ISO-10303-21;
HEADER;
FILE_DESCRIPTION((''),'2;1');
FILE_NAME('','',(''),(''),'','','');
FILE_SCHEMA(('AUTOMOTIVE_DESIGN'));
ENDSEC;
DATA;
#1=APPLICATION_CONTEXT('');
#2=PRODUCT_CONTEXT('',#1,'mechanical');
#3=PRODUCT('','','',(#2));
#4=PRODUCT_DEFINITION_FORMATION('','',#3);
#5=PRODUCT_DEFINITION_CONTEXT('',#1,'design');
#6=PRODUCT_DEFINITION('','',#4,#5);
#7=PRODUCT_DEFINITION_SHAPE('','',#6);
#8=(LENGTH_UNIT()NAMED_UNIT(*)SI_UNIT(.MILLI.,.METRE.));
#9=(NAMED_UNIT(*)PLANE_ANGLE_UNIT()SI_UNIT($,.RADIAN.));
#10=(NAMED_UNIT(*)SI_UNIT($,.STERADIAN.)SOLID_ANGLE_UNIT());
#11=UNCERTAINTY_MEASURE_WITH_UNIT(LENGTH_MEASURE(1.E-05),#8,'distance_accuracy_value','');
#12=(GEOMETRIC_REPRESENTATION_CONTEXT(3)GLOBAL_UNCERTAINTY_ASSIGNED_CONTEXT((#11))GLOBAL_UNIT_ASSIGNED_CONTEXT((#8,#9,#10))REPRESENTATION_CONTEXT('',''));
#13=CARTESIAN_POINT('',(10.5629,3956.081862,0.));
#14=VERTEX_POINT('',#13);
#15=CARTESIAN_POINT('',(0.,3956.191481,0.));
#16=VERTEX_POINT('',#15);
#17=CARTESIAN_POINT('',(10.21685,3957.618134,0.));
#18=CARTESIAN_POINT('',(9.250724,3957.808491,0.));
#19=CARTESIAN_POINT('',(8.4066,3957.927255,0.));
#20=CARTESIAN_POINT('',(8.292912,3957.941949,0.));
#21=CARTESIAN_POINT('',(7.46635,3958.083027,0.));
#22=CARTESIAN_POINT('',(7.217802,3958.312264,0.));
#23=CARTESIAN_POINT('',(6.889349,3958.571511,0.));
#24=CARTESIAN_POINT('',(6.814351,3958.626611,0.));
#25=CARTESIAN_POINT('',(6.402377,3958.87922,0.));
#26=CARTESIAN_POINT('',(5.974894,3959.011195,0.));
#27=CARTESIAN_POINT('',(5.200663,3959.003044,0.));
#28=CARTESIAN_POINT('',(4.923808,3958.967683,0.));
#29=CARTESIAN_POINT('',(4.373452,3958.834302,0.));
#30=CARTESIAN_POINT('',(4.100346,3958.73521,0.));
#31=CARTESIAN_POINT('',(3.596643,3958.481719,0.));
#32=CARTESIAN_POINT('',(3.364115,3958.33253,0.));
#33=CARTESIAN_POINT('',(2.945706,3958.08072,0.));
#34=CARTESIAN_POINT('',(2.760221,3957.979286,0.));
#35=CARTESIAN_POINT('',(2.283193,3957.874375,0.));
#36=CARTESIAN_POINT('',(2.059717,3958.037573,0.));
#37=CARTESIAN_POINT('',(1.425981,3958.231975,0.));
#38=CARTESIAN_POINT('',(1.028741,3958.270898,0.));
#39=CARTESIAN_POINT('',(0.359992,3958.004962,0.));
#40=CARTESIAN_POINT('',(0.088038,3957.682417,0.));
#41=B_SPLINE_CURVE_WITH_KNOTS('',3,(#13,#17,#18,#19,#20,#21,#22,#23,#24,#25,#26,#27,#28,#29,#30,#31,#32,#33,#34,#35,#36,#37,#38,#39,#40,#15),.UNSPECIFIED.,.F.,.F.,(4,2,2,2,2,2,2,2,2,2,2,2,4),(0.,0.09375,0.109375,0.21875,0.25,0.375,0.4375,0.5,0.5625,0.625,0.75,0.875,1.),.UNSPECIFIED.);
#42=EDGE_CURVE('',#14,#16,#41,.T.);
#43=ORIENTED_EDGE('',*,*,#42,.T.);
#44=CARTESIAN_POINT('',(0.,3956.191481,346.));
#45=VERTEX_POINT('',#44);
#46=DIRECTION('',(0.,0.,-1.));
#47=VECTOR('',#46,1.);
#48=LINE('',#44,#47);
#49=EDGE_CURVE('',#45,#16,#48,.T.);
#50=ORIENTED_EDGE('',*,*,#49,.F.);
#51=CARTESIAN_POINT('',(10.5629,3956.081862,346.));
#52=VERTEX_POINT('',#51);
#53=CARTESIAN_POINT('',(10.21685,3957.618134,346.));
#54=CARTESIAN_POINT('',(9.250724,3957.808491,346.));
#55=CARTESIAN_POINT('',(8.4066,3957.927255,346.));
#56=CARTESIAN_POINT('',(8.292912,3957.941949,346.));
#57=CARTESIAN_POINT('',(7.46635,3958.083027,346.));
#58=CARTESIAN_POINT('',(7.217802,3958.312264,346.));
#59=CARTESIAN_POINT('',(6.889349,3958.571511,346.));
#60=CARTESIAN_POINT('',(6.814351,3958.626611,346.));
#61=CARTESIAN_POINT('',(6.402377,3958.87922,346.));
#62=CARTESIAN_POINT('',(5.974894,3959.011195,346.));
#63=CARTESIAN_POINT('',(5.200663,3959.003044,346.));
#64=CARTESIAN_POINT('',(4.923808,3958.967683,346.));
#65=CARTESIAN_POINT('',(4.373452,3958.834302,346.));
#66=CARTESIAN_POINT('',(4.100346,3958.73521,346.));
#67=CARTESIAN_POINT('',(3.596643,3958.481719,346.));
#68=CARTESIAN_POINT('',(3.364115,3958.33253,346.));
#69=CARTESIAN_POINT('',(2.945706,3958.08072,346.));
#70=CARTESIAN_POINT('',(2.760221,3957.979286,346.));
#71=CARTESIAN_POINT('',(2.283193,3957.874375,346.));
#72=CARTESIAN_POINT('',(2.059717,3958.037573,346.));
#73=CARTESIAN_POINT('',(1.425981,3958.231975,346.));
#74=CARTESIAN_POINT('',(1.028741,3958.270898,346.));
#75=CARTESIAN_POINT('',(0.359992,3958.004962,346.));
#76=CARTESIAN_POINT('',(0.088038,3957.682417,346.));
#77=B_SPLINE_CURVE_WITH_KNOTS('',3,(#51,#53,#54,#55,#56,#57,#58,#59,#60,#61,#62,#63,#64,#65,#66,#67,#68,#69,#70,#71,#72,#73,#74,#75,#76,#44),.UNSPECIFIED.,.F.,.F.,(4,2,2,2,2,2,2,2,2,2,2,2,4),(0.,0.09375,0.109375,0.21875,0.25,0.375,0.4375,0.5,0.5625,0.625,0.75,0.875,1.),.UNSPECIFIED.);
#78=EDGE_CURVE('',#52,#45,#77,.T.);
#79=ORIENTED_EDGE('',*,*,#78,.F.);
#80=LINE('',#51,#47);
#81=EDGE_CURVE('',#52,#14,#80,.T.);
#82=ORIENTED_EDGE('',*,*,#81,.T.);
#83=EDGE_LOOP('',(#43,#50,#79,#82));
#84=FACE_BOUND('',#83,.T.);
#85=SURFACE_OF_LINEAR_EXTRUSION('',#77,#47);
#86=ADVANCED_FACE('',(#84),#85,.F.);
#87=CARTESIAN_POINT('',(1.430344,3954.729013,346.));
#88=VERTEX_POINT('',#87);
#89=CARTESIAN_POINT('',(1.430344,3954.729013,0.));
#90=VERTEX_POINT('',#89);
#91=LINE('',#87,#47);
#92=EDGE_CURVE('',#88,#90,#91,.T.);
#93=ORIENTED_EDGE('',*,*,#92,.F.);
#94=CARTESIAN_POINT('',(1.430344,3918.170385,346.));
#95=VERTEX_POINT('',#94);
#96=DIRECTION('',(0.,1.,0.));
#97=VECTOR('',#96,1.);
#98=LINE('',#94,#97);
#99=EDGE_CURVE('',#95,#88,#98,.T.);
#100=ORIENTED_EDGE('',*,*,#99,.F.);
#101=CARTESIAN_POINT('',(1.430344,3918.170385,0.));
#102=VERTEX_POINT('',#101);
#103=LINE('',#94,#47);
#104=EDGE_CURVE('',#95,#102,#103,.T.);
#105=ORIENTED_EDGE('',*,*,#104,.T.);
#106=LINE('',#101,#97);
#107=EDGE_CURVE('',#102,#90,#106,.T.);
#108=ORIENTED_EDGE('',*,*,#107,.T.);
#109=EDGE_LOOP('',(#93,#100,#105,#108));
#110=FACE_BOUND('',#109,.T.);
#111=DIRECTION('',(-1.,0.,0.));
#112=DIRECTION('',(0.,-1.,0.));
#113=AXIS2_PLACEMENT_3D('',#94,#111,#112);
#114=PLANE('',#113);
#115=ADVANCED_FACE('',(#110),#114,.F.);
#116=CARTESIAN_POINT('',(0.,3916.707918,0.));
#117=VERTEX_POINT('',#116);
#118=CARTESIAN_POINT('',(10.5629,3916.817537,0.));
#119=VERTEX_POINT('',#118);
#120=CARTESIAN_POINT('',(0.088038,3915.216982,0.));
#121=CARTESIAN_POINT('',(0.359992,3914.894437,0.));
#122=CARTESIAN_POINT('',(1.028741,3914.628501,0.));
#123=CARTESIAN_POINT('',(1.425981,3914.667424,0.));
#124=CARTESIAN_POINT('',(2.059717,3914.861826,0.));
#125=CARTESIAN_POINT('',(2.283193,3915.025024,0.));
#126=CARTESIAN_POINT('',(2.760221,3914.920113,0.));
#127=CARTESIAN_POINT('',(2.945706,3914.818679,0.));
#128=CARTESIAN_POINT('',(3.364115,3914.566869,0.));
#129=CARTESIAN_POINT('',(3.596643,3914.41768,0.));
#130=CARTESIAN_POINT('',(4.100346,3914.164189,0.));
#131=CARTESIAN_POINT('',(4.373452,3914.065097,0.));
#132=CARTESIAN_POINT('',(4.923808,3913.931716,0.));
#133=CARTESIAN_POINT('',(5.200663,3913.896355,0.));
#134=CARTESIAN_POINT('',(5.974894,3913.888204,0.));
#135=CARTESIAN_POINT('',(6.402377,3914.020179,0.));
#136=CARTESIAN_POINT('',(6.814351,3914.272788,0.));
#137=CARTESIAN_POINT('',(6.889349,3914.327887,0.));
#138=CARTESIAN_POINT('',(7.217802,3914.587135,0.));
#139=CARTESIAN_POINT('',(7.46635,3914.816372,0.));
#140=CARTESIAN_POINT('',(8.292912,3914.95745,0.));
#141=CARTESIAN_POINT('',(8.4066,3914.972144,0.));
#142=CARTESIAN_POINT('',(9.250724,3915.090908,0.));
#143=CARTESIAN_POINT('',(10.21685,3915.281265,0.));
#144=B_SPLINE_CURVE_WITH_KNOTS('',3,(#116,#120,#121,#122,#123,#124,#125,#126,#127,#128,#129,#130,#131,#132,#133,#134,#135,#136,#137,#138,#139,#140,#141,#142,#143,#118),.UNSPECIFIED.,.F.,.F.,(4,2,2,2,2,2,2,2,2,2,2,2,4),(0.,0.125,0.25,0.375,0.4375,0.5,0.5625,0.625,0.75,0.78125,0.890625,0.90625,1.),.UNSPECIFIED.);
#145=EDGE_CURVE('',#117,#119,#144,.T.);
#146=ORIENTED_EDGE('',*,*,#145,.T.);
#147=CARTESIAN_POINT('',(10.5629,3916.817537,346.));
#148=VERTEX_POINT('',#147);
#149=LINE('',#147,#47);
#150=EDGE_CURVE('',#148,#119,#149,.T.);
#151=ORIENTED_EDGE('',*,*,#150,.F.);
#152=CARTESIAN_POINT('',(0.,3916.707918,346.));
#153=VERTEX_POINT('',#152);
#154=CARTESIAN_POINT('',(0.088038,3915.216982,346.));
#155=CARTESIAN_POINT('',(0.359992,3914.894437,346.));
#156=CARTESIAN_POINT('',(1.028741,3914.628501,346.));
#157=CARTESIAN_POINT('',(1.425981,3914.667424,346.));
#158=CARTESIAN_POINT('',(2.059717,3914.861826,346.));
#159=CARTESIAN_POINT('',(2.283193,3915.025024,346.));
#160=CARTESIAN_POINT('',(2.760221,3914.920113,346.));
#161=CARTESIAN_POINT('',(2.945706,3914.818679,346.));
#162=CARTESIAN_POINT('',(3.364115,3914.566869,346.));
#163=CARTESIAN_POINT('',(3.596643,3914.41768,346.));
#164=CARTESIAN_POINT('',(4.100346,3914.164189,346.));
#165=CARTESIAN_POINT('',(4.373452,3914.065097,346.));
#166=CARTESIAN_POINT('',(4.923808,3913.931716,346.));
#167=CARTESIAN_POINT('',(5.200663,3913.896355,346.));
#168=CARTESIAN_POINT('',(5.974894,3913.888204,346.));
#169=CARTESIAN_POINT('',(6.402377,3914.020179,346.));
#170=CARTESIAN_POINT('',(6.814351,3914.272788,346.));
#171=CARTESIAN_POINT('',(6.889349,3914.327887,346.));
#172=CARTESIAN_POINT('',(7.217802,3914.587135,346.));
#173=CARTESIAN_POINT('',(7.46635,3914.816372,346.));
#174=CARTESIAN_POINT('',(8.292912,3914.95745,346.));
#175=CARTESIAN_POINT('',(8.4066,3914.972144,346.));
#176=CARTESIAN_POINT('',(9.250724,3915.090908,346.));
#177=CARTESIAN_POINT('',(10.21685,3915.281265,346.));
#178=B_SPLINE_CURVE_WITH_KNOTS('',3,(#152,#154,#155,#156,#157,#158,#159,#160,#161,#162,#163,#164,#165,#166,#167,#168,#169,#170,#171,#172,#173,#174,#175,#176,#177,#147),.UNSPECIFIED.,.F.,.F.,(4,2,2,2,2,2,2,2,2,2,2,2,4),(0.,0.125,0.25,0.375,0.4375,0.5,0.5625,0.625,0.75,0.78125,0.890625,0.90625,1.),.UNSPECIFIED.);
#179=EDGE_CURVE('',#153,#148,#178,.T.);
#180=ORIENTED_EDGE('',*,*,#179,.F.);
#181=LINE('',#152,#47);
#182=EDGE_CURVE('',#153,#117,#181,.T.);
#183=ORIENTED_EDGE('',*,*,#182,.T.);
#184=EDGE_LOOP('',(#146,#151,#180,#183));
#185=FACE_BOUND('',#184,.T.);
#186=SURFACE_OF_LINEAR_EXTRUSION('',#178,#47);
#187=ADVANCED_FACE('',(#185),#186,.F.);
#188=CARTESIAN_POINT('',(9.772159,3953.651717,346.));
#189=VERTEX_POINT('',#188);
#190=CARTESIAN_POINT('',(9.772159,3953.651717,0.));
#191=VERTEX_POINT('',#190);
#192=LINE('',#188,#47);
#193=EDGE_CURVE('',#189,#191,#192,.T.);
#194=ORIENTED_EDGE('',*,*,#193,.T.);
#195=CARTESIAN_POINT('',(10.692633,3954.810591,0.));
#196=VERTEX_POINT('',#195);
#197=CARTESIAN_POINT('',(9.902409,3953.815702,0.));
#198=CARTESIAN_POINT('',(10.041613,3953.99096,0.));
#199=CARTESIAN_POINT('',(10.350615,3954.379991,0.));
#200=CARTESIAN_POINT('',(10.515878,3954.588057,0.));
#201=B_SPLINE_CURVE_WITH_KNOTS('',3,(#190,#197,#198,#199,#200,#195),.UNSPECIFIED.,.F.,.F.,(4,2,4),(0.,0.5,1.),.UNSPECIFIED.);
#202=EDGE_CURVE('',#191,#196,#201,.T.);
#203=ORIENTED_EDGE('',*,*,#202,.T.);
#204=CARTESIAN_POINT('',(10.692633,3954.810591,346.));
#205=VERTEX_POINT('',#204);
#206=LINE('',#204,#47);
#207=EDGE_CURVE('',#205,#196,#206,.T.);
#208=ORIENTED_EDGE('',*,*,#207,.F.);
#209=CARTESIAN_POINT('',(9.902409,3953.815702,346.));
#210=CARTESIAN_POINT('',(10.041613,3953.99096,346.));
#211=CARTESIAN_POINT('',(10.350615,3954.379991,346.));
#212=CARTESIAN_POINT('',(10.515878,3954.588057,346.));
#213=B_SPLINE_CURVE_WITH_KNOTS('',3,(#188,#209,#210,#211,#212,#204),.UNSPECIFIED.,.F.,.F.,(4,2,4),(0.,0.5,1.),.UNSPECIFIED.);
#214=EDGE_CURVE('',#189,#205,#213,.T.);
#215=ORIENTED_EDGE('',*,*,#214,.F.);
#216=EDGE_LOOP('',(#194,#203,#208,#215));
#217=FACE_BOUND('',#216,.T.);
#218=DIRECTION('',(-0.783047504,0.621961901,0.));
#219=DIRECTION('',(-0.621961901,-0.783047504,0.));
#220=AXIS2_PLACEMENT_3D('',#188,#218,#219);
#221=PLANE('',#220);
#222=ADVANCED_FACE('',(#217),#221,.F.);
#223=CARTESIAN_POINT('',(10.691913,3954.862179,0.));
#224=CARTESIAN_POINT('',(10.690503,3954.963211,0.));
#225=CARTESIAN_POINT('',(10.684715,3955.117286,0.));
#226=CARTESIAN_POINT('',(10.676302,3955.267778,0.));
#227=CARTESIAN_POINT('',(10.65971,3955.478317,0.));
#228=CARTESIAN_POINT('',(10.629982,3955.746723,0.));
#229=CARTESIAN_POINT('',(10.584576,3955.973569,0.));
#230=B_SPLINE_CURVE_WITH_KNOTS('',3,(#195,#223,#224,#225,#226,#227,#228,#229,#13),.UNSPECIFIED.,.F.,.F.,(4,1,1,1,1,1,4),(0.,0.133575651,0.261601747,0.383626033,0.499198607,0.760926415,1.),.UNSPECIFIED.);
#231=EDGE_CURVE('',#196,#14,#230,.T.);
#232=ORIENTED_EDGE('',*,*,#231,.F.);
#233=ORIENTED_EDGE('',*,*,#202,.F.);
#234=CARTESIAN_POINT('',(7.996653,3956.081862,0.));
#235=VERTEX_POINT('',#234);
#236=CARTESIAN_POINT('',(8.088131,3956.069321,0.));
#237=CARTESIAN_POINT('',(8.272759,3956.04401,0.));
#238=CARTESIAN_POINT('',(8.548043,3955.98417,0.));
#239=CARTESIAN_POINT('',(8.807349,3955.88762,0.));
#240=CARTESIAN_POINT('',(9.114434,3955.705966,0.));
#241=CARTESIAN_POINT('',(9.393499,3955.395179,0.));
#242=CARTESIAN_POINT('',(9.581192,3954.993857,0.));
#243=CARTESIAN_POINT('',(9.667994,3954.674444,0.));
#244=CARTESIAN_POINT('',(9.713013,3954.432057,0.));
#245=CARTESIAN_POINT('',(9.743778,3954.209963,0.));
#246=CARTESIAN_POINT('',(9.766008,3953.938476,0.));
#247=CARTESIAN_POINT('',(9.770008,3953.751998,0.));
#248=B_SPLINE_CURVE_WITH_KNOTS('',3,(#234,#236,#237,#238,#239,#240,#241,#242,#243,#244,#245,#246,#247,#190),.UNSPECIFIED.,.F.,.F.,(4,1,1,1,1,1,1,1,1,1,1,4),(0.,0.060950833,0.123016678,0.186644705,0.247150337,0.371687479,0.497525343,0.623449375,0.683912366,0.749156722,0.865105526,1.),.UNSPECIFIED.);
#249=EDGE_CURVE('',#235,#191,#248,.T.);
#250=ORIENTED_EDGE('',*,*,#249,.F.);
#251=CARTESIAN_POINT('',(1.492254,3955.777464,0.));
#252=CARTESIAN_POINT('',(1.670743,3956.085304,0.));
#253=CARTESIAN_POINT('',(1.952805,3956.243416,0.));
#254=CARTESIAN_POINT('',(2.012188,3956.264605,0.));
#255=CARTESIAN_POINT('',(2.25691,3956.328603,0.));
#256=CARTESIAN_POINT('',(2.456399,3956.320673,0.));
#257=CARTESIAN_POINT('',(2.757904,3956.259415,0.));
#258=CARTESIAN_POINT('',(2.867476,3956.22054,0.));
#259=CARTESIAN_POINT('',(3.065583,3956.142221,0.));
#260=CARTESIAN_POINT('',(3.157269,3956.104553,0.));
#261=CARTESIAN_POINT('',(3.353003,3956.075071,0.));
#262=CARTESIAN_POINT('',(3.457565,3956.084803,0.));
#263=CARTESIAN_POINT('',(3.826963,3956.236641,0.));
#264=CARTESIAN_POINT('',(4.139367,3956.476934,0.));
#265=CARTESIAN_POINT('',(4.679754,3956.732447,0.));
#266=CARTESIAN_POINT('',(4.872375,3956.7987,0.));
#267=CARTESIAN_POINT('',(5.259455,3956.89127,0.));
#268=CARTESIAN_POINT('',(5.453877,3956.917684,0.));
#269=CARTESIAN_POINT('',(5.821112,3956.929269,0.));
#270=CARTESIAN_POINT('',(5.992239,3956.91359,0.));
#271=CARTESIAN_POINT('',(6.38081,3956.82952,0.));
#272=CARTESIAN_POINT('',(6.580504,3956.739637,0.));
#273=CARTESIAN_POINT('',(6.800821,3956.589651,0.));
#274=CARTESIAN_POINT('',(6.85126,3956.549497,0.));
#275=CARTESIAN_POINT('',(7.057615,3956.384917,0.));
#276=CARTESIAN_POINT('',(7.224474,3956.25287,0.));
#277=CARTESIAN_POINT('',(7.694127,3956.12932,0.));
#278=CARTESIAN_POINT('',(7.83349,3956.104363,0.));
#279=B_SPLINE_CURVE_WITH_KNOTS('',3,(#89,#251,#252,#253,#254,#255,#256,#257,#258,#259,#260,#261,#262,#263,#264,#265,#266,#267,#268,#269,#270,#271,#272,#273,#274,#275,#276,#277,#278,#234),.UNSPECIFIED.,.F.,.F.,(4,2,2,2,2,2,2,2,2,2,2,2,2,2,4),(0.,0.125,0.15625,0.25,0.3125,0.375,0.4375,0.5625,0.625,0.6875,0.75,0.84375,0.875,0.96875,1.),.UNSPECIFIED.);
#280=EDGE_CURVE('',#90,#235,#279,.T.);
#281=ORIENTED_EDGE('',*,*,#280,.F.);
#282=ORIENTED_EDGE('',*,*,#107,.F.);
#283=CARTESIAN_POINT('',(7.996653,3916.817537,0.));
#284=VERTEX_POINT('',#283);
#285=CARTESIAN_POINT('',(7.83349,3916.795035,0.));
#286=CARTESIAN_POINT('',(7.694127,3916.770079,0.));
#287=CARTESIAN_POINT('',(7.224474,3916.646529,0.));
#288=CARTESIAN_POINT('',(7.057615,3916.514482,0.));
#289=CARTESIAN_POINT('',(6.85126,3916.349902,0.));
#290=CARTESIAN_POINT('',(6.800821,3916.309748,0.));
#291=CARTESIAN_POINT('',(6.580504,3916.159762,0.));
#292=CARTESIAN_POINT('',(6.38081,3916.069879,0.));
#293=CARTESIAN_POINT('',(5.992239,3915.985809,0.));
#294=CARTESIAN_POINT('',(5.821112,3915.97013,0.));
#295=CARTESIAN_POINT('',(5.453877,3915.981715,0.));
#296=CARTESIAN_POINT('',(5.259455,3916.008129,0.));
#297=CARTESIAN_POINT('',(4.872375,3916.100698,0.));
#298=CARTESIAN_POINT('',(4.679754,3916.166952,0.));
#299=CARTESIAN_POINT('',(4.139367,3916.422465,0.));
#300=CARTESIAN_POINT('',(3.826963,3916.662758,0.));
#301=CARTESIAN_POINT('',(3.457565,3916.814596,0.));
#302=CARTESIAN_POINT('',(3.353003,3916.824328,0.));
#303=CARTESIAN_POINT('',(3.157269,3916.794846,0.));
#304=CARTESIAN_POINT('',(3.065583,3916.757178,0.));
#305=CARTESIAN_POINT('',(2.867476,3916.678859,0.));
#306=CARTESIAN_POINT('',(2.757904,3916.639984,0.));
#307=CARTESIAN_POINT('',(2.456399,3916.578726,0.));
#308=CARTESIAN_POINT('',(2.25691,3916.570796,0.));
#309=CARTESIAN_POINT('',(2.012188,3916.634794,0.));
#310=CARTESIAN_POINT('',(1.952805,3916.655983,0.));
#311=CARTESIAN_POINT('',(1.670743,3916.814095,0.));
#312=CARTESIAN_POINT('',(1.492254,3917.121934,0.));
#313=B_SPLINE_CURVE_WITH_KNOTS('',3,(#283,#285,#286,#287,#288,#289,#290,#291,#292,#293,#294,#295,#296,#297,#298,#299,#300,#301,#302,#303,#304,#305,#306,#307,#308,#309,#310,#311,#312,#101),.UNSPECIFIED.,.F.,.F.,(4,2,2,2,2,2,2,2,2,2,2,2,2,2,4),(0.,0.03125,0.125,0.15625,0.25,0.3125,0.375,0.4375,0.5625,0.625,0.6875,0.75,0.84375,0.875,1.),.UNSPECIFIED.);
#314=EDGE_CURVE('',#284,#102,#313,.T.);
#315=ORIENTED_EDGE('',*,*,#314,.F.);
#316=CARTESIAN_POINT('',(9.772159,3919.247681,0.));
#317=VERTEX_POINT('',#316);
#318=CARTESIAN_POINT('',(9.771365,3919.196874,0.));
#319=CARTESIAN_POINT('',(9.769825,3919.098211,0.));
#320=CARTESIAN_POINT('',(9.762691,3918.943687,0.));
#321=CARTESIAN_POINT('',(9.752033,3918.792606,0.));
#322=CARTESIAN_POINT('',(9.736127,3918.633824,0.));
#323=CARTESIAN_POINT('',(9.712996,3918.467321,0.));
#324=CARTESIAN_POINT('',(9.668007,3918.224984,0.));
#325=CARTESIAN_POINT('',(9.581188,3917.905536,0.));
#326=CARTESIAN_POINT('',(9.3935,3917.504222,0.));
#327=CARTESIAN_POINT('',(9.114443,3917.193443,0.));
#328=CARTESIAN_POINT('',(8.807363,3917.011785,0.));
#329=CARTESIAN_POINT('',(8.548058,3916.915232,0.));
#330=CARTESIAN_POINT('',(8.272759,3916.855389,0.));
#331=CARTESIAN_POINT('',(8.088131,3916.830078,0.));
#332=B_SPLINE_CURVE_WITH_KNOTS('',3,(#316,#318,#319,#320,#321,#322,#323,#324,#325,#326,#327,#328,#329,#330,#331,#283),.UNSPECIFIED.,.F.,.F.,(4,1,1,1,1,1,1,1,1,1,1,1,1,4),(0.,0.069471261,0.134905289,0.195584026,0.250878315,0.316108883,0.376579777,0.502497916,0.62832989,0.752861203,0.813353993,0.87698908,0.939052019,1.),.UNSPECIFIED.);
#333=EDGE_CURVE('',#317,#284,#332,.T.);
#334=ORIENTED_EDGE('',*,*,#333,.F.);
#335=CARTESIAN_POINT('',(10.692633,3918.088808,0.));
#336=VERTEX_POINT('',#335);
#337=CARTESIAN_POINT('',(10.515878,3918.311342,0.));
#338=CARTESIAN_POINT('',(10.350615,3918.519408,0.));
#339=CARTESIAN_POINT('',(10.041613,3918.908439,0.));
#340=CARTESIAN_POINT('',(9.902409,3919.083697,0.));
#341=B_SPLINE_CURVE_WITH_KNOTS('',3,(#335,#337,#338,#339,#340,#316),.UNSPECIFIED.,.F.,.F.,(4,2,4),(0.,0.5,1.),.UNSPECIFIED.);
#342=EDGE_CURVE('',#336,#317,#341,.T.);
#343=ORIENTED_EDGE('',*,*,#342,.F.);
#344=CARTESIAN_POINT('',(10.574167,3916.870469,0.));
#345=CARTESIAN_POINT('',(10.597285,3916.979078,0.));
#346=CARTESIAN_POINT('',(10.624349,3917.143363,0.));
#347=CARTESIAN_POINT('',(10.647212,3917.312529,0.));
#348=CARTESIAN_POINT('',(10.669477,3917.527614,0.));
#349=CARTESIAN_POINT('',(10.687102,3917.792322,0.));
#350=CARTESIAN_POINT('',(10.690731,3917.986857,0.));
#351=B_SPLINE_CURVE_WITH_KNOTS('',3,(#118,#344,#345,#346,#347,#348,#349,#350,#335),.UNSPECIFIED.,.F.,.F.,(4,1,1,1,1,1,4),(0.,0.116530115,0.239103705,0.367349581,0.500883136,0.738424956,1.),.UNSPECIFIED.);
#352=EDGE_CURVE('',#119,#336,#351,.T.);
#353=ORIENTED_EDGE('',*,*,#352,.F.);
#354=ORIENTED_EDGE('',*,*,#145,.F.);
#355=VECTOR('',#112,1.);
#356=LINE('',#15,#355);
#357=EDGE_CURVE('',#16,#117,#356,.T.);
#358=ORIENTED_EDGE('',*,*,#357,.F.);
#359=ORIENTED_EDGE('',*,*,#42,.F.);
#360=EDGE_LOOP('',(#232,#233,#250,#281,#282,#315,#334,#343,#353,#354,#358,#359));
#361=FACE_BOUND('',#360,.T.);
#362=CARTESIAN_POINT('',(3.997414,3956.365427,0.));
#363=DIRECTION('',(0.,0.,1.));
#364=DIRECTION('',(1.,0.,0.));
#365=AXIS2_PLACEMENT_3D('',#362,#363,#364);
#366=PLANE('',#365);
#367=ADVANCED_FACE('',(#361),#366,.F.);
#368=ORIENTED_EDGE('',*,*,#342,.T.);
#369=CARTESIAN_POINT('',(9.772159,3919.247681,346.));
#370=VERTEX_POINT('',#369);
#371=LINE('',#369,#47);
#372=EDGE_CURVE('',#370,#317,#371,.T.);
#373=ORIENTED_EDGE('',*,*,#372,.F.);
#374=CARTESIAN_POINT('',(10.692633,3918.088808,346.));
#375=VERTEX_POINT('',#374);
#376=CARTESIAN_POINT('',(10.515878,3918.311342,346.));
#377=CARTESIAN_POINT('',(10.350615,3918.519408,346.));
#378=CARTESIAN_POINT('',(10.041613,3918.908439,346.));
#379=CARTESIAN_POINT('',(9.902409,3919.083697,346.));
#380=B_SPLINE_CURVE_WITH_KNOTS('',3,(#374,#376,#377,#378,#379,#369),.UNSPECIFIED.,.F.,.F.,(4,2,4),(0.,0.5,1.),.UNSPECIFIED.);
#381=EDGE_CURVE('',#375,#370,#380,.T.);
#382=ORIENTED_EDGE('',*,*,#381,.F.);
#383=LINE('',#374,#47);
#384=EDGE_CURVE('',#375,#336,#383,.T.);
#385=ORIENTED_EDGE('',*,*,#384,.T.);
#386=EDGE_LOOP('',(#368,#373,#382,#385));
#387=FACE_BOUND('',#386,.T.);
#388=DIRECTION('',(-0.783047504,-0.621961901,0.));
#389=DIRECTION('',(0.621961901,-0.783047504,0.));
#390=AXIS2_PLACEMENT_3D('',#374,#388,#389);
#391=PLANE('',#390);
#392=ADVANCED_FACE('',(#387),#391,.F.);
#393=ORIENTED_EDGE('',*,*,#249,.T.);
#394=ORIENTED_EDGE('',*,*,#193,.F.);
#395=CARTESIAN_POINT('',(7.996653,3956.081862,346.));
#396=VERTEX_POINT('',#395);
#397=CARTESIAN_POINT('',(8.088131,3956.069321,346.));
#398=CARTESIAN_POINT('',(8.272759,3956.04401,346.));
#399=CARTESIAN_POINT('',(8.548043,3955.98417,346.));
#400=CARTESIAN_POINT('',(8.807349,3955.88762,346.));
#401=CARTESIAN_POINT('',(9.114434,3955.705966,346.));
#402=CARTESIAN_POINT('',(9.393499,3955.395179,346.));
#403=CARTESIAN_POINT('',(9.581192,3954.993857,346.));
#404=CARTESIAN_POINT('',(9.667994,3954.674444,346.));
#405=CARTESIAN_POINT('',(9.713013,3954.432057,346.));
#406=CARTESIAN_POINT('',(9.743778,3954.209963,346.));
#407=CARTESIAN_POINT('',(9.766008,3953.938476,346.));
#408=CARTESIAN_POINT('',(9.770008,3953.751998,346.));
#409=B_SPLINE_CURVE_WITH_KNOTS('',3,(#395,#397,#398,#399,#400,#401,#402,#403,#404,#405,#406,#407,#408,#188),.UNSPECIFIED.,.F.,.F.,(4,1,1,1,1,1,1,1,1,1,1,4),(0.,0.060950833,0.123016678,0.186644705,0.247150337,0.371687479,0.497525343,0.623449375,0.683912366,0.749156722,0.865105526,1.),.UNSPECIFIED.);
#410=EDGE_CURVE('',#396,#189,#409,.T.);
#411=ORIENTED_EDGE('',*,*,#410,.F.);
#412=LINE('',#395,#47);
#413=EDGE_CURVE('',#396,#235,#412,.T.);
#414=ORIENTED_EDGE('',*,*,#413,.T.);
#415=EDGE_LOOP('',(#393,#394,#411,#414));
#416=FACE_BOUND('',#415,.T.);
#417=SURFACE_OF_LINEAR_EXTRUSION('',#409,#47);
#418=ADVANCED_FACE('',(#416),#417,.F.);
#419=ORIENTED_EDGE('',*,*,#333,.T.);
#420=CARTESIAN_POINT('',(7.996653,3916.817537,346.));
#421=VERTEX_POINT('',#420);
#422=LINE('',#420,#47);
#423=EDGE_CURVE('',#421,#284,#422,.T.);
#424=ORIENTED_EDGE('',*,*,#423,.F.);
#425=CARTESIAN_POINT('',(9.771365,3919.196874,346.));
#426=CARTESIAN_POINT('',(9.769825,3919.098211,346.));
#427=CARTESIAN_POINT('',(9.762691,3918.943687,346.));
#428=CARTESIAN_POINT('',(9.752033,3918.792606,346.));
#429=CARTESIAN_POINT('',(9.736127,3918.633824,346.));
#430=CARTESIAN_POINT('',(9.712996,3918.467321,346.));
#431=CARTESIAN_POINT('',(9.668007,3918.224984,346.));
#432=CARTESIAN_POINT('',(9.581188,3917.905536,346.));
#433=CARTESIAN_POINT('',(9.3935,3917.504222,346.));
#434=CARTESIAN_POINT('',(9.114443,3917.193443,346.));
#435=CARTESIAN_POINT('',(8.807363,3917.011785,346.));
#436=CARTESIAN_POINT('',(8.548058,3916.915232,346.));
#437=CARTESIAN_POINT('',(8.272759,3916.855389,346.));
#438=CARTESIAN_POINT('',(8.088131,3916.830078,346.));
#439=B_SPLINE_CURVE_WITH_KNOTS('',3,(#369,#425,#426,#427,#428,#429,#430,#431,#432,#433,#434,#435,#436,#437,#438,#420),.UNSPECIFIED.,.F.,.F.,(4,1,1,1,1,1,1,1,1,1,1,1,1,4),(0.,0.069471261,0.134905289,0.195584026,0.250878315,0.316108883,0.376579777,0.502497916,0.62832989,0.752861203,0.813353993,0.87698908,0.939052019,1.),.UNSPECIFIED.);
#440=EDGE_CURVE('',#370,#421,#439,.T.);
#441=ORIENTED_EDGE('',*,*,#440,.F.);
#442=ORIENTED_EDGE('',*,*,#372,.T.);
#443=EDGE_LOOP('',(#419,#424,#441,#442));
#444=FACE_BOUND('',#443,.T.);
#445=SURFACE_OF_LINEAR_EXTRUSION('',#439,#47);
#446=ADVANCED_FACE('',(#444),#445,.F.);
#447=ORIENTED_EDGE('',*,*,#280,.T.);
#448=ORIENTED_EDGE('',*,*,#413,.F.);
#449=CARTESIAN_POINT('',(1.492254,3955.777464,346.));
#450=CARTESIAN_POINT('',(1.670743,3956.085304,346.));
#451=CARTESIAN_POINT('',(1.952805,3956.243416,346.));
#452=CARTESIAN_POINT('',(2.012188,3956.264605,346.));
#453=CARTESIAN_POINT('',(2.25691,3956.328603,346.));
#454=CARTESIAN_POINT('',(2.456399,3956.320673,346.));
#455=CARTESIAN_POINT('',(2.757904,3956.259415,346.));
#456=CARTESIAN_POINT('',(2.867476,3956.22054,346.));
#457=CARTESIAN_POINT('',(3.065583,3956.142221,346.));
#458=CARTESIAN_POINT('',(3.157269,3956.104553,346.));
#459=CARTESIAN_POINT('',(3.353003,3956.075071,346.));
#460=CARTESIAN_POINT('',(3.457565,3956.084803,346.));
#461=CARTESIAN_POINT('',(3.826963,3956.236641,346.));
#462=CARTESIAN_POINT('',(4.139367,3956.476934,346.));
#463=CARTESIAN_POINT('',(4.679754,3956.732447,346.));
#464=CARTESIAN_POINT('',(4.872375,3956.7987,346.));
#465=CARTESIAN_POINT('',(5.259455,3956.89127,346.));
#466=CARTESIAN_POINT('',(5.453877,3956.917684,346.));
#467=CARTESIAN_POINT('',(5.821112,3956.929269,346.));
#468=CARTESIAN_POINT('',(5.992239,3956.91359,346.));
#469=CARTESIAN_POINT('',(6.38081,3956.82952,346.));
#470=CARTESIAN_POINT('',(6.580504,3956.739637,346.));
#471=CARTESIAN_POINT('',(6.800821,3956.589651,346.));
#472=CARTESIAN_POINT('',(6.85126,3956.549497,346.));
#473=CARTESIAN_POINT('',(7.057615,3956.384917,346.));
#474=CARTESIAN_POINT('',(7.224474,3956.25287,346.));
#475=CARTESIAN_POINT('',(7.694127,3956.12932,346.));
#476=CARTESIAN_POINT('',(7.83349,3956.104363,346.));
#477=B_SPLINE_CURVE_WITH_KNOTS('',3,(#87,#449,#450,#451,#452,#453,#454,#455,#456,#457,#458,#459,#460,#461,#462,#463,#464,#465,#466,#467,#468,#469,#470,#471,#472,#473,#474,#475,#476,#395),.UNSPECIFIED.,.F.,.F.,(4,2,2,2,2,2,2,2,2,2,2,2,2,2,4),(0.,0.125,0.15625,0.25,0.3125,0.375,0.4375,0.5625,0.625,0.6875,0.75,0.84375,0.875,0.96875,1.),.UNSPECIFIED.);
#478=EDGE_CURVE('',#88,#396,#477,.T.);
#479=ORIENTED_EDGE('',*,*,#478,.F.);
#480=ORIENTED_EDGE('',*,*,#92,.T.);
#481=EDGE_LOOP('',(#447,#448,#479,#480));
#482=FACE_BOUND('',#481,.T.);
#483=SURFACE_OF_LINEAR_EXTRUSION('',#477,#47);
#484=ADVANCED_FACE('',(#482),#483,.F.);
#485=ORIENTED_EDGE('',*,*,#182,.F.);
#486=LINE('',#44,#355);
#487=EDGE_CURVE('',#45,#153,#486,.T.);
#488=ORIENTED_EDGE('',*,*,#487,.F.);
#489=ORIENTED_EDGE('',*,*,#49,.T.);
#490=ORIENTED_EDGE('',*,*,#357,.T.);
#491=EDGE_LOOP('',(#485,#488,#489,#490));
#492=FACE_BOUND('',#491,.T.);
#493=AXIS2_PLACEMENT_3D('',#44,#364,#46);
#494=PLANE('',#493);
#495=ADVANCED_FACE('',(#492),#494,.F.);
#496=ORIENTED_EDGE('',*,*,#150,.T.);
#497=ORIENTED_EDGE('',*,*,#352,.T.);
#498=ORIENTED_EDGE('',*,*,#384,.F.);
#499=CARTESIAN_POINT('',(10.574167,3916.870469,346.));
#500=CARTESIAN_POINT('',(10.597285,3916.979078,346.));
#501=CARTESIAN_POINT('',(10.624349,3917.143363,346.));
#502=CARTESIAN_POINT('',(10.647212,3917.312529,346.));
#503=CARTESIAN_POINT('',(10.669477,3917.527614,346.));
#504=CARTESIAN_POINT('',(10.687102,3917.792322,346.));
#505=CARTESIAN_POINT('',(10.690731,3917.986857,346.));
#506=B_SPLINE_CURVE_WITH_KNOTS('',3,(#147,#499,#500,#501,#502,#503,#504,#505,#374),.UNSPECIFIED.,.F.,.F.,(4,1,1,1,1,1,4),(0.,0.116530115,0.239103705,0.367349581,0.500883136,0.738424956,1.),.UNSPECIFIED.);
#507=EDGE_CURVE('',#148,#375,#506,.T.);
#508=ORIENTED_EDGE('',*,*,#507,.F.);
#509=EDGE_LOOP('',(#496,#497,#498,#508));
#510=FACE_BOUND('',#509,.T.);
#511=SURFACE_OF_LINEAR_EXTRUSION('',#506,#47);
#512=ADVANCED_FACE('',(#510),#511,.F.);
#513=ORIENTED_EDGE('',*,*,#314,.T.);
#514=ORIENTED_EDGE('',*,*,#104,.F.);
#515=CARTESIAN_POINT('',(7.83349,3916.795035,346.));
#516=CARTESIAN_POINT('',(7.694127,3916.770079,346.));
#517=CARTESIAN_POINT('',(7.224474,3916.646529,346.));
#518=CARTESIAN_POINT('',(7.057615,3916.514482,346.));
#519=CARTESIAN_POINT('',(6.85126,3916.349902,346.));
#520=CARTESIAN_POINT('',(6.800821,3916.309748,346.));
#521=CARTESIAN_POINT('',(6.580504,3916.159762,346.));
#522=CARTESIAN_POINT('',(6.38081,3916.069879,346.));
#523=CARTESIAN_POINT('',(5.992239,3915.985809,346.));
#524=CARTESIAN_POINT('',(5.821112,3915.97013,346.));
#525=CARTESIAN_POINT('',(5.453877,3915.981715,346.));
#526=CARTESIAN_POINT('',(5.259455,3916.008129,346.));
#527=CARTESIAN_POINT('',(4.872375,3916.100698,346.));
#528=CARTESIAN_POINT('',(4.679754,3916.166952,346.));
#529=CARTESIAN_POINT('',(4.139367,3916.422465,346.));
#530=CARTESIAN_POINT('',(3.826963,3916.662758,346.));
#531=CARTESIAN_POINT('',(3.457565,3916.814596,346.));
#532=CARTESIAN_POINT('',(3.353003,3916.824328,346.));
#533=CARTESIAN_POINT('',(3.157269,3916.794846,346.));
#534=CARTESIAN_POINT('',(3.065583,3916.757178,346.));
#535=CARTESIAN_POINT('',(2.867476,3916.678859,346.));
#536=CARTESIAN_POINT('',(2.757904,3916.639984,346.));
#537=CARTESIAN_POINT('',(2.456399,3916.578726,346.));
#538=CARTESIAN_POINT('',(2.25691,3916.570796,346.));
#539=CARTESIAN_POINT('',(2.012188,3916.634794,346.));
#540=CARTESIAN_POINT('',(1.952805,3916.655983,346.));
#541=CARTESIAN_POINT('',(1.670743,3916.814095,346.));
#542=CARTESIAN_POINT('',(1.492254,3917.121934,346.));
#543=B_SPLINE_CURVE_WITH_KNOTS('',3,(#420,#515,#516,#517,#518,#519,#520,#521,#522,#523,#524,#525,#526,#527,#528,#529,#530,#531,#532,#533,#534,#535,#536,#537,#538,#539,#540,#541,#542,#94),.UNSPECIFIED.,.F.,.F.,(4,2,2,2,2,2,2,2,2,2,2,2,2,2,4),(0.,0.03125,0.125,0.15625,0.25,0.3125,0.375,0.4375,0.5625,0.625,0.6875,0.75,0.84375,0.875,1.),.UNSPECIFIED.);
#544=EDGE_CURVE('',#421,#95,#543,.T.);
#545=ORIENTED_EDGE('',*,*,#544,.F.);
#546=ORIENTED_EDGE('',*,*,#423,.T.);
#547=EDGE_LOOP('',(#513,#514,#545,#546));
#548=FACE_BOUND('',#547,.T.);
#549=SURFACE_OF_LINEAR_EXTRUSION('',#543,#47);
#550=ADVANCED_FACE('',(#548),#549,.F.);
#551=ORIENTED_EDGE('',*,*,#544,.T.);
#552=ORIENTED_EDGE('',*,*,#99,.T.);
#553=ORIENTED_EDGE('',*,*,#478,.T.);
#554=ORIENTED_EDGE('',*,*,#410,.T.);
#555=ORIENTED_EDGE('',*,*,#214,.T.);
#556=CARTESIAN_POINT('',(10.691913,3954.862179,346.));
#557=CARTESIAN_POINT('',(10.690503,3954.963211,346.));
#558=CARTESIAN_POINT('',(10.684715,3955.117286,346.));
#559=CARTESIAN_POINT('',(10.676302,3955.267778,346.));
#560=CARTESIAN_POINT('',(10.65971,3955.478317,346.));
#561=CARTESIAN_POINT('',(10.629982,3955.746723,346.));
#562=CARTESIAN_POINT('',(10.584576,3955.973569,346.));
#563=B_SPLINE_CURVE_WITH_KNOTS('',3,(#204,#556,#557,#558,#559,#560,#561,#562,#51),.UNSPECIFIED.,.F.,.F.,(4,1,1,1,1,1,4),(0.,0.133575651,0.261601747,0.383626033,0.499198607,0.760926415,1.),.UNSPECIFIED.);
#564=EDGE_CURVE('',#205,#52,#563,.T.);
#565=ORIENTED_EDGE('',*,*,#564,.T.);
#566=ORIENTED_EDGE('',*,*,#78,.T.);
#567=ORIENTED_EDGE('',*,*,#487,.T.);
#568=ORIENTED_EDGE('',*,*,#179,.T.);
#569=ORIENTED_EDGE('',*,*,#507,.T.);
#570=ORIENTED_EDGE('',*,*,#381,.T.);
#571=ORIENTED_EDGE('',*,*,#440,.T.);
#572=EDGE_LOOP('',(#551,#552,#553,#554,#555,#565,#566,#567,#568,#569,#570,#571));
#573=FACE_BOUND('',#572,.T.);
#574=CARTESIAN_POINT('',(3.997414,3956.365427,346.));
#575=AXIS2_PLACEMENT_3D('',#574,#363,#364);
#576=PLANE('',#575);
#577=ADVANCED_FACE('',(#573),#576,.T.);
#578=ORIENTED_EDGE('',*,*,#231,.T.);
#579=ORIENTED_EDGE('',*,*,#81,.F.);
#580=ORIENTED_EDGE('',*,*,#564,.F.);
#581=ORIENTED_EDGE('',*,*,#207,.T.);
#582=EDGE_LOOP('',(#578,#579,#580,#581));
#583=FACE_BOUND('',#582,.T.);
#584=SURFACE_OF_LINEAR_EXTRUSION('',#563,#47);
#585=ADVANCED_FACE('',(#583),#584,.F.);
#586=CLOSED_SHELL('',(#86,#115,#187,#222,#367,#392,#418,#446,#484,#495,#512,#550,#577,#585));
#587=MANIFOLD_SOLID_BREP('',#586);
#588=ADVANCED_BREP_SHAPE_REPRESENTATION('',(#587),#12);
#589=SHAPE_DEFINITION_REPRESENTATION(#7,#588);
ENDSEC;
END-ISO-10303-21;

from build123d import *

# Parameters (mm, degrees)
BOSS_EXTRUDE1_DEPTH = 346


with BuildPart() as part:
    # Sketch1 → Boss-Extrude1 (new body)
    with BuildSketch(Plane.XY):
        with BuildLine():
            Line((1.430343878, 3918.17038545), (1.430343878, 3954.72901347))
            add(Edge.make_bspline(
                [(1.430343878, 3954.72901347), (1.492253744, 3955.777464486), (1.670742659, 3956.085303627), (1.952805311, 3956.243416154), (2.012188058, 3956.264605221), (2.256909987, 3956.328603169), (2.456399266, 3956.320672543), (2.757904339, 3956.259414864), (2.867475976, 3956.220539863), (3.0655829, 3956.142220977), (3.15726891, 3956.104553053), (3.353002763, 3956.075071328), (3.457565078, 3956.084802914), (3.826962952, 3956.236641407), (4.13936718, 3956.476934102), (4.679753676, 3956.732446606), (4.872375311, 3956.798700444), (5.259455237, 3956.891269903), (5.453877125, 3956.917683792), (5.821112383, 3956.92926878), (5.99223886, 3956.913589758), (6.380809615, 3956.829519875), (6.580504113, 3956.739636733), (6.800820646, 3956.589650728), (6.85125983, 3956.549497345), (7.057614936, 3956.384917414), (7.224473982, 3956.252870293), (7.694127073, 3956.129320115), (7.833489732, 3956.104363469), (7.996653054, 3956.081861553)],
                knots=[0, 0, 0, 0, 0.125, 0.125, 0.15625, 0.15625, 0.25, 0.25, 0.3125, 0.3125, 0.375, 0.375, 0.4375, 0.4375, 0.5625, 0.5625, 0.625, 0.625, 0.6875, 0.6875, 0.75, 0.75, 0.84375, 0.84375, 0.875, 0.875, 0.96875, 0.96875, 1, 1, 1, 1], degree=3))
            add(Edge.make_bspline(
                [(7.996653054, 3956.081861553), (8.088130688, 3956.069320908), (8.272759414, 3956.044010205), (8.548043297, 3955.98416982), (8.80734904, 3955.887619995), (9.114434379, 3955.705965873), (9.393499143, 3955.395178677), (9.581191859, 3954.993856883), (9.667993716, 3954.674443569), (9.713013038, 3954.432056806), (9.743778183, 3954.209962946), (9.766008001, 3953.938475631), (9.770007737, 3953.751998289), (9.772158651, 3953.651717495)],
                knots=[0, 0, 0, 0, 0.060950833, 0.123016678, 0.186644705, 0.247150337, 0.371687479, 0.497525343, 0.623449375, 0.683912366, 0.749156722, 0.865105526, 1, 1, 1, 1], degree=3))
            add(Edge.make_bspline(
                [(9.772158651, 3953.651717495), (9.902408791, 3953.815701891), (10.041613322, 3953.99095983), (10.350614598, 3954.379991179), (10.515877695, 3954.588056746), (10.692633126, 3954.810591115)],
                knots=[0, 0, 0, 0, 0.5, 0.5, 1, 1, 1, 1], degree=3))
            add(Edge.make_bspline(
                [(10.692633126, 3954.810591115), (10.691913281, 3954.862178833), (10.690503499, 3954.963210999), (10.684715317, 3955.117285928), (10.676302075, 3955.267777636), (10.659709804, 3955.478316933), (10.62998225, 3955.746722565), (10.584575759, 3955.973569096), (10.562899516, 3956.081861553)],
                knots=[0, 0, 0, 0, 0.133575651, 0.261601747, 0.383626033, 0.499198607, 0.760926415, 1, 1, 1, 1], degree=3))
            add(Edge.make_bspline(
                [(10.562899516, 3956.081861553), (10.216850212, 3957.618133962), (9.250723887, 3957.808490842), (8.406599882, 3957.92725494), (8.292912495, 3957.941948908), (7.466350409, 3958.083027006), (7.217801541, 3958.312264006), (6.889348881, 3958.571511488), (6.81435089, 3958.626610793), (6.402376678, 3958.879219503), (5.974893614, 3959.011194859), (5.200662558, 3959.003043812), (4.92380844, 3958.96768319), (4.373451983, 3958.834301949), (4.10034642, 3958.735210231), (3.596642827, 3958.481718757), (3.364114577, 3958.332529644), (2.945705944, 3958.080719754), (2.760220812, 3957.979286242), (2.283192997, 3957.874374952), (2.059716703, 3958.037572792), (1.425981171, 3958.231975183), (1.028740794, 3958.270897767), (0.359991506, 3958.004962063), (0.088038092, 3957.682417032), (0, 3956.191481358)],
                knots=[0, 0, 0, 0, 0.09375, 0.09375, 0.109375, 0.109375, 0.21875, 0.21875, 0.25, 0.25, 0.375, 0.375, 0.4375, 0.4375, 0.5, 0.5, 0.5625, 0.5625, 0.625, 0.625, 0.75, 0.75, 0.875, 0.875, 1, 1, 1, 1], degree=3))
            Line((0, 3956.191481358), (0, 3916.707917562))
            add(Edge.make_bspline(
                [(0, 3916.707917562), (0.088038092, 3915.216981887), (0.359991506, 3914.894436857), (1.028740794, 3914.628501152), (1.425981171, 3914.667423737), (2.059716703, 3914.861826128), (2.283192997, 3915.025023968), (2.760220812, 3914.920112678), (2.945705944, 3914.818679166), (3.364114577, 3914.566869275), (3.596642827, 3914.417680163), (4.10034642, 3914.164188689), (4.373451983, 3914.06509697), (4.92380844, 3913.931715729), (5.200662558, 3913.896355108), (5.974893614, 3913.888204061), (6.402376678, 3914.020179417), (6.81435089, 3914.272788127), (6.889348881, 3914.327887431), (7.217801541, 3914.587134913), (7.466350409, 3914.816371914), (8.292912495, 3914.957450011), (8.406599882, 3914.97214398), (9.250723887, 3915.090908078), (10.216850212, 3915.281264957), (10.562899516, 3916.817537367)],
                knots=[0, 0, 0, 0, 0.125, 0.125, 0.25, 0.25, 0.375, 0.375, 0.4375, 0.4375, 0.5, 0.5, 0.5625, 0.5625, 0.625, 0.625, 0.75, 0.75, 0.78125, 0.78125, 0.890625, 0.890625, 0.90625, 0.90625, 1, 1, 1, 1], degree=3))
            add(Edge.make_bspline(
                [(10.562899516, 3916.817537367), (10.574166654, 3916.870469087), (10.597285266, 3916.979077668), (10.624349071, 3917.143363024), (10.647212021, 3917.312529496), (10.669477274, 3917.52761428), (10.687102378, 3917.792322091), (10.690731297, 3917.986856854), (10.692633126, 3918.088807804)],
                knots=[0, 0, 0, 0, 0.116530115, 0.239103705, 0.367349581, 0.500883136, 0.738424956, 1, 1, 1, 1], degree=3))
            add(Edge.make_bspline(
                [(10.692633126, 3918.088807804), (10.515877695, 3918.311342173), (10.350614598, 3918.51940774), (10.041613322, 3918.90843909), (9.902408791, 3919.083697028), (9.772158651, 3919.247681425)],
                knots=[0, 0, 0, 0, 0.5, 0.5, 1, 1, 1, 1], degree=3))
            add(Edge.make_bspline(
                [(9.772158651, 3919.247681425), (9.771365289, 3919.196873909), (9.769824671, 3919.09821149), (9.762690765, 3918.943687255), (9.752032923, 3918.792605675), (9.736127422, 3918.633823813), (9.712996418, 3918.467321321), (9.66800734, 3918.224984421), (9.58118816, 3917.905535849), (9.393500286, 3917.504221803), (9.114442807, 3917.193443211), (8.807363306, 3917.011784716), (8.54805793, 3916.915232419), (8.272759456, 3916.855388689), (8.088130702, 3916.830078003), (7.996653054, 3916.817537367)],
                knots=[0, 0, 0, 0, 0.069471261, 0.134905289, 0.195584026, 0.250878315, 0.316108883, 0.376579777, 0.502497916, 0.62832989, 0.752861203, 0.813353993, 0.87698908, 0.939052019, 1, 1, 1, 1], degree=3))
            add(Edge.make_bspline(
                [(7.996653054, 3916.817537367), (7.833489732, 3916.79503545), (7.694127073, 3916.770078804), (7.224473982, 3916.646528627), (7.057614936, 3916.514481505), (6.85125983, 3916.349901574), (6.800820646, 3916.309748192), (6.580504113, 3916.159762187), (6.380809615, 3916.069879045), (5.99223886, 3915.985809162), (5.821112383, 3915.97013014), (5.453877125, 3915.981715128), (5.259455237, 3916.008129016), (4.872375311, 3916.100698475), (4.679753676, 3916.166952313), (4.13936718, 3916.422464817), (3.826962952, 3916.662757512), (3.457565078, 3916.814596005), (3.353002763, 3916.824327592), (3.15726891, 3916.794845866), (3.0655829, 3916.757177942), (2.867475976, 3916.678859056), (2.757904339, 3916.639984056), (2.456399266, 3916.578726377), (2.256909987, 3916.570795751), (2.012188058, 3916.634793698), (1.952805311, 3916.655982766), (1.670742659, 3916.814095293), (1.492253744, 3917.121934434), (1.430343878, 3918.17038545)],
                knots=[0, 0, 0, 0, 0.03125, 0.03125, 0.125, 0.125, 0.15625, 0.15625, 0.25, 0.25, 0.3125, 0.3125, 0.375, 0.375, 0.4375, 0.4375, 0.5625, 0.5625, 0.625, 0.625, 0.6875, 0.6875, 0.75, 0.75, 0.84375, 0.84375, 0.875, 0.875, 1, 1, 1, 1], degree=3))
        make_face()
    extrude(amount=BOSS_EXTRUDE1_DEPTH)


solid = part.part
